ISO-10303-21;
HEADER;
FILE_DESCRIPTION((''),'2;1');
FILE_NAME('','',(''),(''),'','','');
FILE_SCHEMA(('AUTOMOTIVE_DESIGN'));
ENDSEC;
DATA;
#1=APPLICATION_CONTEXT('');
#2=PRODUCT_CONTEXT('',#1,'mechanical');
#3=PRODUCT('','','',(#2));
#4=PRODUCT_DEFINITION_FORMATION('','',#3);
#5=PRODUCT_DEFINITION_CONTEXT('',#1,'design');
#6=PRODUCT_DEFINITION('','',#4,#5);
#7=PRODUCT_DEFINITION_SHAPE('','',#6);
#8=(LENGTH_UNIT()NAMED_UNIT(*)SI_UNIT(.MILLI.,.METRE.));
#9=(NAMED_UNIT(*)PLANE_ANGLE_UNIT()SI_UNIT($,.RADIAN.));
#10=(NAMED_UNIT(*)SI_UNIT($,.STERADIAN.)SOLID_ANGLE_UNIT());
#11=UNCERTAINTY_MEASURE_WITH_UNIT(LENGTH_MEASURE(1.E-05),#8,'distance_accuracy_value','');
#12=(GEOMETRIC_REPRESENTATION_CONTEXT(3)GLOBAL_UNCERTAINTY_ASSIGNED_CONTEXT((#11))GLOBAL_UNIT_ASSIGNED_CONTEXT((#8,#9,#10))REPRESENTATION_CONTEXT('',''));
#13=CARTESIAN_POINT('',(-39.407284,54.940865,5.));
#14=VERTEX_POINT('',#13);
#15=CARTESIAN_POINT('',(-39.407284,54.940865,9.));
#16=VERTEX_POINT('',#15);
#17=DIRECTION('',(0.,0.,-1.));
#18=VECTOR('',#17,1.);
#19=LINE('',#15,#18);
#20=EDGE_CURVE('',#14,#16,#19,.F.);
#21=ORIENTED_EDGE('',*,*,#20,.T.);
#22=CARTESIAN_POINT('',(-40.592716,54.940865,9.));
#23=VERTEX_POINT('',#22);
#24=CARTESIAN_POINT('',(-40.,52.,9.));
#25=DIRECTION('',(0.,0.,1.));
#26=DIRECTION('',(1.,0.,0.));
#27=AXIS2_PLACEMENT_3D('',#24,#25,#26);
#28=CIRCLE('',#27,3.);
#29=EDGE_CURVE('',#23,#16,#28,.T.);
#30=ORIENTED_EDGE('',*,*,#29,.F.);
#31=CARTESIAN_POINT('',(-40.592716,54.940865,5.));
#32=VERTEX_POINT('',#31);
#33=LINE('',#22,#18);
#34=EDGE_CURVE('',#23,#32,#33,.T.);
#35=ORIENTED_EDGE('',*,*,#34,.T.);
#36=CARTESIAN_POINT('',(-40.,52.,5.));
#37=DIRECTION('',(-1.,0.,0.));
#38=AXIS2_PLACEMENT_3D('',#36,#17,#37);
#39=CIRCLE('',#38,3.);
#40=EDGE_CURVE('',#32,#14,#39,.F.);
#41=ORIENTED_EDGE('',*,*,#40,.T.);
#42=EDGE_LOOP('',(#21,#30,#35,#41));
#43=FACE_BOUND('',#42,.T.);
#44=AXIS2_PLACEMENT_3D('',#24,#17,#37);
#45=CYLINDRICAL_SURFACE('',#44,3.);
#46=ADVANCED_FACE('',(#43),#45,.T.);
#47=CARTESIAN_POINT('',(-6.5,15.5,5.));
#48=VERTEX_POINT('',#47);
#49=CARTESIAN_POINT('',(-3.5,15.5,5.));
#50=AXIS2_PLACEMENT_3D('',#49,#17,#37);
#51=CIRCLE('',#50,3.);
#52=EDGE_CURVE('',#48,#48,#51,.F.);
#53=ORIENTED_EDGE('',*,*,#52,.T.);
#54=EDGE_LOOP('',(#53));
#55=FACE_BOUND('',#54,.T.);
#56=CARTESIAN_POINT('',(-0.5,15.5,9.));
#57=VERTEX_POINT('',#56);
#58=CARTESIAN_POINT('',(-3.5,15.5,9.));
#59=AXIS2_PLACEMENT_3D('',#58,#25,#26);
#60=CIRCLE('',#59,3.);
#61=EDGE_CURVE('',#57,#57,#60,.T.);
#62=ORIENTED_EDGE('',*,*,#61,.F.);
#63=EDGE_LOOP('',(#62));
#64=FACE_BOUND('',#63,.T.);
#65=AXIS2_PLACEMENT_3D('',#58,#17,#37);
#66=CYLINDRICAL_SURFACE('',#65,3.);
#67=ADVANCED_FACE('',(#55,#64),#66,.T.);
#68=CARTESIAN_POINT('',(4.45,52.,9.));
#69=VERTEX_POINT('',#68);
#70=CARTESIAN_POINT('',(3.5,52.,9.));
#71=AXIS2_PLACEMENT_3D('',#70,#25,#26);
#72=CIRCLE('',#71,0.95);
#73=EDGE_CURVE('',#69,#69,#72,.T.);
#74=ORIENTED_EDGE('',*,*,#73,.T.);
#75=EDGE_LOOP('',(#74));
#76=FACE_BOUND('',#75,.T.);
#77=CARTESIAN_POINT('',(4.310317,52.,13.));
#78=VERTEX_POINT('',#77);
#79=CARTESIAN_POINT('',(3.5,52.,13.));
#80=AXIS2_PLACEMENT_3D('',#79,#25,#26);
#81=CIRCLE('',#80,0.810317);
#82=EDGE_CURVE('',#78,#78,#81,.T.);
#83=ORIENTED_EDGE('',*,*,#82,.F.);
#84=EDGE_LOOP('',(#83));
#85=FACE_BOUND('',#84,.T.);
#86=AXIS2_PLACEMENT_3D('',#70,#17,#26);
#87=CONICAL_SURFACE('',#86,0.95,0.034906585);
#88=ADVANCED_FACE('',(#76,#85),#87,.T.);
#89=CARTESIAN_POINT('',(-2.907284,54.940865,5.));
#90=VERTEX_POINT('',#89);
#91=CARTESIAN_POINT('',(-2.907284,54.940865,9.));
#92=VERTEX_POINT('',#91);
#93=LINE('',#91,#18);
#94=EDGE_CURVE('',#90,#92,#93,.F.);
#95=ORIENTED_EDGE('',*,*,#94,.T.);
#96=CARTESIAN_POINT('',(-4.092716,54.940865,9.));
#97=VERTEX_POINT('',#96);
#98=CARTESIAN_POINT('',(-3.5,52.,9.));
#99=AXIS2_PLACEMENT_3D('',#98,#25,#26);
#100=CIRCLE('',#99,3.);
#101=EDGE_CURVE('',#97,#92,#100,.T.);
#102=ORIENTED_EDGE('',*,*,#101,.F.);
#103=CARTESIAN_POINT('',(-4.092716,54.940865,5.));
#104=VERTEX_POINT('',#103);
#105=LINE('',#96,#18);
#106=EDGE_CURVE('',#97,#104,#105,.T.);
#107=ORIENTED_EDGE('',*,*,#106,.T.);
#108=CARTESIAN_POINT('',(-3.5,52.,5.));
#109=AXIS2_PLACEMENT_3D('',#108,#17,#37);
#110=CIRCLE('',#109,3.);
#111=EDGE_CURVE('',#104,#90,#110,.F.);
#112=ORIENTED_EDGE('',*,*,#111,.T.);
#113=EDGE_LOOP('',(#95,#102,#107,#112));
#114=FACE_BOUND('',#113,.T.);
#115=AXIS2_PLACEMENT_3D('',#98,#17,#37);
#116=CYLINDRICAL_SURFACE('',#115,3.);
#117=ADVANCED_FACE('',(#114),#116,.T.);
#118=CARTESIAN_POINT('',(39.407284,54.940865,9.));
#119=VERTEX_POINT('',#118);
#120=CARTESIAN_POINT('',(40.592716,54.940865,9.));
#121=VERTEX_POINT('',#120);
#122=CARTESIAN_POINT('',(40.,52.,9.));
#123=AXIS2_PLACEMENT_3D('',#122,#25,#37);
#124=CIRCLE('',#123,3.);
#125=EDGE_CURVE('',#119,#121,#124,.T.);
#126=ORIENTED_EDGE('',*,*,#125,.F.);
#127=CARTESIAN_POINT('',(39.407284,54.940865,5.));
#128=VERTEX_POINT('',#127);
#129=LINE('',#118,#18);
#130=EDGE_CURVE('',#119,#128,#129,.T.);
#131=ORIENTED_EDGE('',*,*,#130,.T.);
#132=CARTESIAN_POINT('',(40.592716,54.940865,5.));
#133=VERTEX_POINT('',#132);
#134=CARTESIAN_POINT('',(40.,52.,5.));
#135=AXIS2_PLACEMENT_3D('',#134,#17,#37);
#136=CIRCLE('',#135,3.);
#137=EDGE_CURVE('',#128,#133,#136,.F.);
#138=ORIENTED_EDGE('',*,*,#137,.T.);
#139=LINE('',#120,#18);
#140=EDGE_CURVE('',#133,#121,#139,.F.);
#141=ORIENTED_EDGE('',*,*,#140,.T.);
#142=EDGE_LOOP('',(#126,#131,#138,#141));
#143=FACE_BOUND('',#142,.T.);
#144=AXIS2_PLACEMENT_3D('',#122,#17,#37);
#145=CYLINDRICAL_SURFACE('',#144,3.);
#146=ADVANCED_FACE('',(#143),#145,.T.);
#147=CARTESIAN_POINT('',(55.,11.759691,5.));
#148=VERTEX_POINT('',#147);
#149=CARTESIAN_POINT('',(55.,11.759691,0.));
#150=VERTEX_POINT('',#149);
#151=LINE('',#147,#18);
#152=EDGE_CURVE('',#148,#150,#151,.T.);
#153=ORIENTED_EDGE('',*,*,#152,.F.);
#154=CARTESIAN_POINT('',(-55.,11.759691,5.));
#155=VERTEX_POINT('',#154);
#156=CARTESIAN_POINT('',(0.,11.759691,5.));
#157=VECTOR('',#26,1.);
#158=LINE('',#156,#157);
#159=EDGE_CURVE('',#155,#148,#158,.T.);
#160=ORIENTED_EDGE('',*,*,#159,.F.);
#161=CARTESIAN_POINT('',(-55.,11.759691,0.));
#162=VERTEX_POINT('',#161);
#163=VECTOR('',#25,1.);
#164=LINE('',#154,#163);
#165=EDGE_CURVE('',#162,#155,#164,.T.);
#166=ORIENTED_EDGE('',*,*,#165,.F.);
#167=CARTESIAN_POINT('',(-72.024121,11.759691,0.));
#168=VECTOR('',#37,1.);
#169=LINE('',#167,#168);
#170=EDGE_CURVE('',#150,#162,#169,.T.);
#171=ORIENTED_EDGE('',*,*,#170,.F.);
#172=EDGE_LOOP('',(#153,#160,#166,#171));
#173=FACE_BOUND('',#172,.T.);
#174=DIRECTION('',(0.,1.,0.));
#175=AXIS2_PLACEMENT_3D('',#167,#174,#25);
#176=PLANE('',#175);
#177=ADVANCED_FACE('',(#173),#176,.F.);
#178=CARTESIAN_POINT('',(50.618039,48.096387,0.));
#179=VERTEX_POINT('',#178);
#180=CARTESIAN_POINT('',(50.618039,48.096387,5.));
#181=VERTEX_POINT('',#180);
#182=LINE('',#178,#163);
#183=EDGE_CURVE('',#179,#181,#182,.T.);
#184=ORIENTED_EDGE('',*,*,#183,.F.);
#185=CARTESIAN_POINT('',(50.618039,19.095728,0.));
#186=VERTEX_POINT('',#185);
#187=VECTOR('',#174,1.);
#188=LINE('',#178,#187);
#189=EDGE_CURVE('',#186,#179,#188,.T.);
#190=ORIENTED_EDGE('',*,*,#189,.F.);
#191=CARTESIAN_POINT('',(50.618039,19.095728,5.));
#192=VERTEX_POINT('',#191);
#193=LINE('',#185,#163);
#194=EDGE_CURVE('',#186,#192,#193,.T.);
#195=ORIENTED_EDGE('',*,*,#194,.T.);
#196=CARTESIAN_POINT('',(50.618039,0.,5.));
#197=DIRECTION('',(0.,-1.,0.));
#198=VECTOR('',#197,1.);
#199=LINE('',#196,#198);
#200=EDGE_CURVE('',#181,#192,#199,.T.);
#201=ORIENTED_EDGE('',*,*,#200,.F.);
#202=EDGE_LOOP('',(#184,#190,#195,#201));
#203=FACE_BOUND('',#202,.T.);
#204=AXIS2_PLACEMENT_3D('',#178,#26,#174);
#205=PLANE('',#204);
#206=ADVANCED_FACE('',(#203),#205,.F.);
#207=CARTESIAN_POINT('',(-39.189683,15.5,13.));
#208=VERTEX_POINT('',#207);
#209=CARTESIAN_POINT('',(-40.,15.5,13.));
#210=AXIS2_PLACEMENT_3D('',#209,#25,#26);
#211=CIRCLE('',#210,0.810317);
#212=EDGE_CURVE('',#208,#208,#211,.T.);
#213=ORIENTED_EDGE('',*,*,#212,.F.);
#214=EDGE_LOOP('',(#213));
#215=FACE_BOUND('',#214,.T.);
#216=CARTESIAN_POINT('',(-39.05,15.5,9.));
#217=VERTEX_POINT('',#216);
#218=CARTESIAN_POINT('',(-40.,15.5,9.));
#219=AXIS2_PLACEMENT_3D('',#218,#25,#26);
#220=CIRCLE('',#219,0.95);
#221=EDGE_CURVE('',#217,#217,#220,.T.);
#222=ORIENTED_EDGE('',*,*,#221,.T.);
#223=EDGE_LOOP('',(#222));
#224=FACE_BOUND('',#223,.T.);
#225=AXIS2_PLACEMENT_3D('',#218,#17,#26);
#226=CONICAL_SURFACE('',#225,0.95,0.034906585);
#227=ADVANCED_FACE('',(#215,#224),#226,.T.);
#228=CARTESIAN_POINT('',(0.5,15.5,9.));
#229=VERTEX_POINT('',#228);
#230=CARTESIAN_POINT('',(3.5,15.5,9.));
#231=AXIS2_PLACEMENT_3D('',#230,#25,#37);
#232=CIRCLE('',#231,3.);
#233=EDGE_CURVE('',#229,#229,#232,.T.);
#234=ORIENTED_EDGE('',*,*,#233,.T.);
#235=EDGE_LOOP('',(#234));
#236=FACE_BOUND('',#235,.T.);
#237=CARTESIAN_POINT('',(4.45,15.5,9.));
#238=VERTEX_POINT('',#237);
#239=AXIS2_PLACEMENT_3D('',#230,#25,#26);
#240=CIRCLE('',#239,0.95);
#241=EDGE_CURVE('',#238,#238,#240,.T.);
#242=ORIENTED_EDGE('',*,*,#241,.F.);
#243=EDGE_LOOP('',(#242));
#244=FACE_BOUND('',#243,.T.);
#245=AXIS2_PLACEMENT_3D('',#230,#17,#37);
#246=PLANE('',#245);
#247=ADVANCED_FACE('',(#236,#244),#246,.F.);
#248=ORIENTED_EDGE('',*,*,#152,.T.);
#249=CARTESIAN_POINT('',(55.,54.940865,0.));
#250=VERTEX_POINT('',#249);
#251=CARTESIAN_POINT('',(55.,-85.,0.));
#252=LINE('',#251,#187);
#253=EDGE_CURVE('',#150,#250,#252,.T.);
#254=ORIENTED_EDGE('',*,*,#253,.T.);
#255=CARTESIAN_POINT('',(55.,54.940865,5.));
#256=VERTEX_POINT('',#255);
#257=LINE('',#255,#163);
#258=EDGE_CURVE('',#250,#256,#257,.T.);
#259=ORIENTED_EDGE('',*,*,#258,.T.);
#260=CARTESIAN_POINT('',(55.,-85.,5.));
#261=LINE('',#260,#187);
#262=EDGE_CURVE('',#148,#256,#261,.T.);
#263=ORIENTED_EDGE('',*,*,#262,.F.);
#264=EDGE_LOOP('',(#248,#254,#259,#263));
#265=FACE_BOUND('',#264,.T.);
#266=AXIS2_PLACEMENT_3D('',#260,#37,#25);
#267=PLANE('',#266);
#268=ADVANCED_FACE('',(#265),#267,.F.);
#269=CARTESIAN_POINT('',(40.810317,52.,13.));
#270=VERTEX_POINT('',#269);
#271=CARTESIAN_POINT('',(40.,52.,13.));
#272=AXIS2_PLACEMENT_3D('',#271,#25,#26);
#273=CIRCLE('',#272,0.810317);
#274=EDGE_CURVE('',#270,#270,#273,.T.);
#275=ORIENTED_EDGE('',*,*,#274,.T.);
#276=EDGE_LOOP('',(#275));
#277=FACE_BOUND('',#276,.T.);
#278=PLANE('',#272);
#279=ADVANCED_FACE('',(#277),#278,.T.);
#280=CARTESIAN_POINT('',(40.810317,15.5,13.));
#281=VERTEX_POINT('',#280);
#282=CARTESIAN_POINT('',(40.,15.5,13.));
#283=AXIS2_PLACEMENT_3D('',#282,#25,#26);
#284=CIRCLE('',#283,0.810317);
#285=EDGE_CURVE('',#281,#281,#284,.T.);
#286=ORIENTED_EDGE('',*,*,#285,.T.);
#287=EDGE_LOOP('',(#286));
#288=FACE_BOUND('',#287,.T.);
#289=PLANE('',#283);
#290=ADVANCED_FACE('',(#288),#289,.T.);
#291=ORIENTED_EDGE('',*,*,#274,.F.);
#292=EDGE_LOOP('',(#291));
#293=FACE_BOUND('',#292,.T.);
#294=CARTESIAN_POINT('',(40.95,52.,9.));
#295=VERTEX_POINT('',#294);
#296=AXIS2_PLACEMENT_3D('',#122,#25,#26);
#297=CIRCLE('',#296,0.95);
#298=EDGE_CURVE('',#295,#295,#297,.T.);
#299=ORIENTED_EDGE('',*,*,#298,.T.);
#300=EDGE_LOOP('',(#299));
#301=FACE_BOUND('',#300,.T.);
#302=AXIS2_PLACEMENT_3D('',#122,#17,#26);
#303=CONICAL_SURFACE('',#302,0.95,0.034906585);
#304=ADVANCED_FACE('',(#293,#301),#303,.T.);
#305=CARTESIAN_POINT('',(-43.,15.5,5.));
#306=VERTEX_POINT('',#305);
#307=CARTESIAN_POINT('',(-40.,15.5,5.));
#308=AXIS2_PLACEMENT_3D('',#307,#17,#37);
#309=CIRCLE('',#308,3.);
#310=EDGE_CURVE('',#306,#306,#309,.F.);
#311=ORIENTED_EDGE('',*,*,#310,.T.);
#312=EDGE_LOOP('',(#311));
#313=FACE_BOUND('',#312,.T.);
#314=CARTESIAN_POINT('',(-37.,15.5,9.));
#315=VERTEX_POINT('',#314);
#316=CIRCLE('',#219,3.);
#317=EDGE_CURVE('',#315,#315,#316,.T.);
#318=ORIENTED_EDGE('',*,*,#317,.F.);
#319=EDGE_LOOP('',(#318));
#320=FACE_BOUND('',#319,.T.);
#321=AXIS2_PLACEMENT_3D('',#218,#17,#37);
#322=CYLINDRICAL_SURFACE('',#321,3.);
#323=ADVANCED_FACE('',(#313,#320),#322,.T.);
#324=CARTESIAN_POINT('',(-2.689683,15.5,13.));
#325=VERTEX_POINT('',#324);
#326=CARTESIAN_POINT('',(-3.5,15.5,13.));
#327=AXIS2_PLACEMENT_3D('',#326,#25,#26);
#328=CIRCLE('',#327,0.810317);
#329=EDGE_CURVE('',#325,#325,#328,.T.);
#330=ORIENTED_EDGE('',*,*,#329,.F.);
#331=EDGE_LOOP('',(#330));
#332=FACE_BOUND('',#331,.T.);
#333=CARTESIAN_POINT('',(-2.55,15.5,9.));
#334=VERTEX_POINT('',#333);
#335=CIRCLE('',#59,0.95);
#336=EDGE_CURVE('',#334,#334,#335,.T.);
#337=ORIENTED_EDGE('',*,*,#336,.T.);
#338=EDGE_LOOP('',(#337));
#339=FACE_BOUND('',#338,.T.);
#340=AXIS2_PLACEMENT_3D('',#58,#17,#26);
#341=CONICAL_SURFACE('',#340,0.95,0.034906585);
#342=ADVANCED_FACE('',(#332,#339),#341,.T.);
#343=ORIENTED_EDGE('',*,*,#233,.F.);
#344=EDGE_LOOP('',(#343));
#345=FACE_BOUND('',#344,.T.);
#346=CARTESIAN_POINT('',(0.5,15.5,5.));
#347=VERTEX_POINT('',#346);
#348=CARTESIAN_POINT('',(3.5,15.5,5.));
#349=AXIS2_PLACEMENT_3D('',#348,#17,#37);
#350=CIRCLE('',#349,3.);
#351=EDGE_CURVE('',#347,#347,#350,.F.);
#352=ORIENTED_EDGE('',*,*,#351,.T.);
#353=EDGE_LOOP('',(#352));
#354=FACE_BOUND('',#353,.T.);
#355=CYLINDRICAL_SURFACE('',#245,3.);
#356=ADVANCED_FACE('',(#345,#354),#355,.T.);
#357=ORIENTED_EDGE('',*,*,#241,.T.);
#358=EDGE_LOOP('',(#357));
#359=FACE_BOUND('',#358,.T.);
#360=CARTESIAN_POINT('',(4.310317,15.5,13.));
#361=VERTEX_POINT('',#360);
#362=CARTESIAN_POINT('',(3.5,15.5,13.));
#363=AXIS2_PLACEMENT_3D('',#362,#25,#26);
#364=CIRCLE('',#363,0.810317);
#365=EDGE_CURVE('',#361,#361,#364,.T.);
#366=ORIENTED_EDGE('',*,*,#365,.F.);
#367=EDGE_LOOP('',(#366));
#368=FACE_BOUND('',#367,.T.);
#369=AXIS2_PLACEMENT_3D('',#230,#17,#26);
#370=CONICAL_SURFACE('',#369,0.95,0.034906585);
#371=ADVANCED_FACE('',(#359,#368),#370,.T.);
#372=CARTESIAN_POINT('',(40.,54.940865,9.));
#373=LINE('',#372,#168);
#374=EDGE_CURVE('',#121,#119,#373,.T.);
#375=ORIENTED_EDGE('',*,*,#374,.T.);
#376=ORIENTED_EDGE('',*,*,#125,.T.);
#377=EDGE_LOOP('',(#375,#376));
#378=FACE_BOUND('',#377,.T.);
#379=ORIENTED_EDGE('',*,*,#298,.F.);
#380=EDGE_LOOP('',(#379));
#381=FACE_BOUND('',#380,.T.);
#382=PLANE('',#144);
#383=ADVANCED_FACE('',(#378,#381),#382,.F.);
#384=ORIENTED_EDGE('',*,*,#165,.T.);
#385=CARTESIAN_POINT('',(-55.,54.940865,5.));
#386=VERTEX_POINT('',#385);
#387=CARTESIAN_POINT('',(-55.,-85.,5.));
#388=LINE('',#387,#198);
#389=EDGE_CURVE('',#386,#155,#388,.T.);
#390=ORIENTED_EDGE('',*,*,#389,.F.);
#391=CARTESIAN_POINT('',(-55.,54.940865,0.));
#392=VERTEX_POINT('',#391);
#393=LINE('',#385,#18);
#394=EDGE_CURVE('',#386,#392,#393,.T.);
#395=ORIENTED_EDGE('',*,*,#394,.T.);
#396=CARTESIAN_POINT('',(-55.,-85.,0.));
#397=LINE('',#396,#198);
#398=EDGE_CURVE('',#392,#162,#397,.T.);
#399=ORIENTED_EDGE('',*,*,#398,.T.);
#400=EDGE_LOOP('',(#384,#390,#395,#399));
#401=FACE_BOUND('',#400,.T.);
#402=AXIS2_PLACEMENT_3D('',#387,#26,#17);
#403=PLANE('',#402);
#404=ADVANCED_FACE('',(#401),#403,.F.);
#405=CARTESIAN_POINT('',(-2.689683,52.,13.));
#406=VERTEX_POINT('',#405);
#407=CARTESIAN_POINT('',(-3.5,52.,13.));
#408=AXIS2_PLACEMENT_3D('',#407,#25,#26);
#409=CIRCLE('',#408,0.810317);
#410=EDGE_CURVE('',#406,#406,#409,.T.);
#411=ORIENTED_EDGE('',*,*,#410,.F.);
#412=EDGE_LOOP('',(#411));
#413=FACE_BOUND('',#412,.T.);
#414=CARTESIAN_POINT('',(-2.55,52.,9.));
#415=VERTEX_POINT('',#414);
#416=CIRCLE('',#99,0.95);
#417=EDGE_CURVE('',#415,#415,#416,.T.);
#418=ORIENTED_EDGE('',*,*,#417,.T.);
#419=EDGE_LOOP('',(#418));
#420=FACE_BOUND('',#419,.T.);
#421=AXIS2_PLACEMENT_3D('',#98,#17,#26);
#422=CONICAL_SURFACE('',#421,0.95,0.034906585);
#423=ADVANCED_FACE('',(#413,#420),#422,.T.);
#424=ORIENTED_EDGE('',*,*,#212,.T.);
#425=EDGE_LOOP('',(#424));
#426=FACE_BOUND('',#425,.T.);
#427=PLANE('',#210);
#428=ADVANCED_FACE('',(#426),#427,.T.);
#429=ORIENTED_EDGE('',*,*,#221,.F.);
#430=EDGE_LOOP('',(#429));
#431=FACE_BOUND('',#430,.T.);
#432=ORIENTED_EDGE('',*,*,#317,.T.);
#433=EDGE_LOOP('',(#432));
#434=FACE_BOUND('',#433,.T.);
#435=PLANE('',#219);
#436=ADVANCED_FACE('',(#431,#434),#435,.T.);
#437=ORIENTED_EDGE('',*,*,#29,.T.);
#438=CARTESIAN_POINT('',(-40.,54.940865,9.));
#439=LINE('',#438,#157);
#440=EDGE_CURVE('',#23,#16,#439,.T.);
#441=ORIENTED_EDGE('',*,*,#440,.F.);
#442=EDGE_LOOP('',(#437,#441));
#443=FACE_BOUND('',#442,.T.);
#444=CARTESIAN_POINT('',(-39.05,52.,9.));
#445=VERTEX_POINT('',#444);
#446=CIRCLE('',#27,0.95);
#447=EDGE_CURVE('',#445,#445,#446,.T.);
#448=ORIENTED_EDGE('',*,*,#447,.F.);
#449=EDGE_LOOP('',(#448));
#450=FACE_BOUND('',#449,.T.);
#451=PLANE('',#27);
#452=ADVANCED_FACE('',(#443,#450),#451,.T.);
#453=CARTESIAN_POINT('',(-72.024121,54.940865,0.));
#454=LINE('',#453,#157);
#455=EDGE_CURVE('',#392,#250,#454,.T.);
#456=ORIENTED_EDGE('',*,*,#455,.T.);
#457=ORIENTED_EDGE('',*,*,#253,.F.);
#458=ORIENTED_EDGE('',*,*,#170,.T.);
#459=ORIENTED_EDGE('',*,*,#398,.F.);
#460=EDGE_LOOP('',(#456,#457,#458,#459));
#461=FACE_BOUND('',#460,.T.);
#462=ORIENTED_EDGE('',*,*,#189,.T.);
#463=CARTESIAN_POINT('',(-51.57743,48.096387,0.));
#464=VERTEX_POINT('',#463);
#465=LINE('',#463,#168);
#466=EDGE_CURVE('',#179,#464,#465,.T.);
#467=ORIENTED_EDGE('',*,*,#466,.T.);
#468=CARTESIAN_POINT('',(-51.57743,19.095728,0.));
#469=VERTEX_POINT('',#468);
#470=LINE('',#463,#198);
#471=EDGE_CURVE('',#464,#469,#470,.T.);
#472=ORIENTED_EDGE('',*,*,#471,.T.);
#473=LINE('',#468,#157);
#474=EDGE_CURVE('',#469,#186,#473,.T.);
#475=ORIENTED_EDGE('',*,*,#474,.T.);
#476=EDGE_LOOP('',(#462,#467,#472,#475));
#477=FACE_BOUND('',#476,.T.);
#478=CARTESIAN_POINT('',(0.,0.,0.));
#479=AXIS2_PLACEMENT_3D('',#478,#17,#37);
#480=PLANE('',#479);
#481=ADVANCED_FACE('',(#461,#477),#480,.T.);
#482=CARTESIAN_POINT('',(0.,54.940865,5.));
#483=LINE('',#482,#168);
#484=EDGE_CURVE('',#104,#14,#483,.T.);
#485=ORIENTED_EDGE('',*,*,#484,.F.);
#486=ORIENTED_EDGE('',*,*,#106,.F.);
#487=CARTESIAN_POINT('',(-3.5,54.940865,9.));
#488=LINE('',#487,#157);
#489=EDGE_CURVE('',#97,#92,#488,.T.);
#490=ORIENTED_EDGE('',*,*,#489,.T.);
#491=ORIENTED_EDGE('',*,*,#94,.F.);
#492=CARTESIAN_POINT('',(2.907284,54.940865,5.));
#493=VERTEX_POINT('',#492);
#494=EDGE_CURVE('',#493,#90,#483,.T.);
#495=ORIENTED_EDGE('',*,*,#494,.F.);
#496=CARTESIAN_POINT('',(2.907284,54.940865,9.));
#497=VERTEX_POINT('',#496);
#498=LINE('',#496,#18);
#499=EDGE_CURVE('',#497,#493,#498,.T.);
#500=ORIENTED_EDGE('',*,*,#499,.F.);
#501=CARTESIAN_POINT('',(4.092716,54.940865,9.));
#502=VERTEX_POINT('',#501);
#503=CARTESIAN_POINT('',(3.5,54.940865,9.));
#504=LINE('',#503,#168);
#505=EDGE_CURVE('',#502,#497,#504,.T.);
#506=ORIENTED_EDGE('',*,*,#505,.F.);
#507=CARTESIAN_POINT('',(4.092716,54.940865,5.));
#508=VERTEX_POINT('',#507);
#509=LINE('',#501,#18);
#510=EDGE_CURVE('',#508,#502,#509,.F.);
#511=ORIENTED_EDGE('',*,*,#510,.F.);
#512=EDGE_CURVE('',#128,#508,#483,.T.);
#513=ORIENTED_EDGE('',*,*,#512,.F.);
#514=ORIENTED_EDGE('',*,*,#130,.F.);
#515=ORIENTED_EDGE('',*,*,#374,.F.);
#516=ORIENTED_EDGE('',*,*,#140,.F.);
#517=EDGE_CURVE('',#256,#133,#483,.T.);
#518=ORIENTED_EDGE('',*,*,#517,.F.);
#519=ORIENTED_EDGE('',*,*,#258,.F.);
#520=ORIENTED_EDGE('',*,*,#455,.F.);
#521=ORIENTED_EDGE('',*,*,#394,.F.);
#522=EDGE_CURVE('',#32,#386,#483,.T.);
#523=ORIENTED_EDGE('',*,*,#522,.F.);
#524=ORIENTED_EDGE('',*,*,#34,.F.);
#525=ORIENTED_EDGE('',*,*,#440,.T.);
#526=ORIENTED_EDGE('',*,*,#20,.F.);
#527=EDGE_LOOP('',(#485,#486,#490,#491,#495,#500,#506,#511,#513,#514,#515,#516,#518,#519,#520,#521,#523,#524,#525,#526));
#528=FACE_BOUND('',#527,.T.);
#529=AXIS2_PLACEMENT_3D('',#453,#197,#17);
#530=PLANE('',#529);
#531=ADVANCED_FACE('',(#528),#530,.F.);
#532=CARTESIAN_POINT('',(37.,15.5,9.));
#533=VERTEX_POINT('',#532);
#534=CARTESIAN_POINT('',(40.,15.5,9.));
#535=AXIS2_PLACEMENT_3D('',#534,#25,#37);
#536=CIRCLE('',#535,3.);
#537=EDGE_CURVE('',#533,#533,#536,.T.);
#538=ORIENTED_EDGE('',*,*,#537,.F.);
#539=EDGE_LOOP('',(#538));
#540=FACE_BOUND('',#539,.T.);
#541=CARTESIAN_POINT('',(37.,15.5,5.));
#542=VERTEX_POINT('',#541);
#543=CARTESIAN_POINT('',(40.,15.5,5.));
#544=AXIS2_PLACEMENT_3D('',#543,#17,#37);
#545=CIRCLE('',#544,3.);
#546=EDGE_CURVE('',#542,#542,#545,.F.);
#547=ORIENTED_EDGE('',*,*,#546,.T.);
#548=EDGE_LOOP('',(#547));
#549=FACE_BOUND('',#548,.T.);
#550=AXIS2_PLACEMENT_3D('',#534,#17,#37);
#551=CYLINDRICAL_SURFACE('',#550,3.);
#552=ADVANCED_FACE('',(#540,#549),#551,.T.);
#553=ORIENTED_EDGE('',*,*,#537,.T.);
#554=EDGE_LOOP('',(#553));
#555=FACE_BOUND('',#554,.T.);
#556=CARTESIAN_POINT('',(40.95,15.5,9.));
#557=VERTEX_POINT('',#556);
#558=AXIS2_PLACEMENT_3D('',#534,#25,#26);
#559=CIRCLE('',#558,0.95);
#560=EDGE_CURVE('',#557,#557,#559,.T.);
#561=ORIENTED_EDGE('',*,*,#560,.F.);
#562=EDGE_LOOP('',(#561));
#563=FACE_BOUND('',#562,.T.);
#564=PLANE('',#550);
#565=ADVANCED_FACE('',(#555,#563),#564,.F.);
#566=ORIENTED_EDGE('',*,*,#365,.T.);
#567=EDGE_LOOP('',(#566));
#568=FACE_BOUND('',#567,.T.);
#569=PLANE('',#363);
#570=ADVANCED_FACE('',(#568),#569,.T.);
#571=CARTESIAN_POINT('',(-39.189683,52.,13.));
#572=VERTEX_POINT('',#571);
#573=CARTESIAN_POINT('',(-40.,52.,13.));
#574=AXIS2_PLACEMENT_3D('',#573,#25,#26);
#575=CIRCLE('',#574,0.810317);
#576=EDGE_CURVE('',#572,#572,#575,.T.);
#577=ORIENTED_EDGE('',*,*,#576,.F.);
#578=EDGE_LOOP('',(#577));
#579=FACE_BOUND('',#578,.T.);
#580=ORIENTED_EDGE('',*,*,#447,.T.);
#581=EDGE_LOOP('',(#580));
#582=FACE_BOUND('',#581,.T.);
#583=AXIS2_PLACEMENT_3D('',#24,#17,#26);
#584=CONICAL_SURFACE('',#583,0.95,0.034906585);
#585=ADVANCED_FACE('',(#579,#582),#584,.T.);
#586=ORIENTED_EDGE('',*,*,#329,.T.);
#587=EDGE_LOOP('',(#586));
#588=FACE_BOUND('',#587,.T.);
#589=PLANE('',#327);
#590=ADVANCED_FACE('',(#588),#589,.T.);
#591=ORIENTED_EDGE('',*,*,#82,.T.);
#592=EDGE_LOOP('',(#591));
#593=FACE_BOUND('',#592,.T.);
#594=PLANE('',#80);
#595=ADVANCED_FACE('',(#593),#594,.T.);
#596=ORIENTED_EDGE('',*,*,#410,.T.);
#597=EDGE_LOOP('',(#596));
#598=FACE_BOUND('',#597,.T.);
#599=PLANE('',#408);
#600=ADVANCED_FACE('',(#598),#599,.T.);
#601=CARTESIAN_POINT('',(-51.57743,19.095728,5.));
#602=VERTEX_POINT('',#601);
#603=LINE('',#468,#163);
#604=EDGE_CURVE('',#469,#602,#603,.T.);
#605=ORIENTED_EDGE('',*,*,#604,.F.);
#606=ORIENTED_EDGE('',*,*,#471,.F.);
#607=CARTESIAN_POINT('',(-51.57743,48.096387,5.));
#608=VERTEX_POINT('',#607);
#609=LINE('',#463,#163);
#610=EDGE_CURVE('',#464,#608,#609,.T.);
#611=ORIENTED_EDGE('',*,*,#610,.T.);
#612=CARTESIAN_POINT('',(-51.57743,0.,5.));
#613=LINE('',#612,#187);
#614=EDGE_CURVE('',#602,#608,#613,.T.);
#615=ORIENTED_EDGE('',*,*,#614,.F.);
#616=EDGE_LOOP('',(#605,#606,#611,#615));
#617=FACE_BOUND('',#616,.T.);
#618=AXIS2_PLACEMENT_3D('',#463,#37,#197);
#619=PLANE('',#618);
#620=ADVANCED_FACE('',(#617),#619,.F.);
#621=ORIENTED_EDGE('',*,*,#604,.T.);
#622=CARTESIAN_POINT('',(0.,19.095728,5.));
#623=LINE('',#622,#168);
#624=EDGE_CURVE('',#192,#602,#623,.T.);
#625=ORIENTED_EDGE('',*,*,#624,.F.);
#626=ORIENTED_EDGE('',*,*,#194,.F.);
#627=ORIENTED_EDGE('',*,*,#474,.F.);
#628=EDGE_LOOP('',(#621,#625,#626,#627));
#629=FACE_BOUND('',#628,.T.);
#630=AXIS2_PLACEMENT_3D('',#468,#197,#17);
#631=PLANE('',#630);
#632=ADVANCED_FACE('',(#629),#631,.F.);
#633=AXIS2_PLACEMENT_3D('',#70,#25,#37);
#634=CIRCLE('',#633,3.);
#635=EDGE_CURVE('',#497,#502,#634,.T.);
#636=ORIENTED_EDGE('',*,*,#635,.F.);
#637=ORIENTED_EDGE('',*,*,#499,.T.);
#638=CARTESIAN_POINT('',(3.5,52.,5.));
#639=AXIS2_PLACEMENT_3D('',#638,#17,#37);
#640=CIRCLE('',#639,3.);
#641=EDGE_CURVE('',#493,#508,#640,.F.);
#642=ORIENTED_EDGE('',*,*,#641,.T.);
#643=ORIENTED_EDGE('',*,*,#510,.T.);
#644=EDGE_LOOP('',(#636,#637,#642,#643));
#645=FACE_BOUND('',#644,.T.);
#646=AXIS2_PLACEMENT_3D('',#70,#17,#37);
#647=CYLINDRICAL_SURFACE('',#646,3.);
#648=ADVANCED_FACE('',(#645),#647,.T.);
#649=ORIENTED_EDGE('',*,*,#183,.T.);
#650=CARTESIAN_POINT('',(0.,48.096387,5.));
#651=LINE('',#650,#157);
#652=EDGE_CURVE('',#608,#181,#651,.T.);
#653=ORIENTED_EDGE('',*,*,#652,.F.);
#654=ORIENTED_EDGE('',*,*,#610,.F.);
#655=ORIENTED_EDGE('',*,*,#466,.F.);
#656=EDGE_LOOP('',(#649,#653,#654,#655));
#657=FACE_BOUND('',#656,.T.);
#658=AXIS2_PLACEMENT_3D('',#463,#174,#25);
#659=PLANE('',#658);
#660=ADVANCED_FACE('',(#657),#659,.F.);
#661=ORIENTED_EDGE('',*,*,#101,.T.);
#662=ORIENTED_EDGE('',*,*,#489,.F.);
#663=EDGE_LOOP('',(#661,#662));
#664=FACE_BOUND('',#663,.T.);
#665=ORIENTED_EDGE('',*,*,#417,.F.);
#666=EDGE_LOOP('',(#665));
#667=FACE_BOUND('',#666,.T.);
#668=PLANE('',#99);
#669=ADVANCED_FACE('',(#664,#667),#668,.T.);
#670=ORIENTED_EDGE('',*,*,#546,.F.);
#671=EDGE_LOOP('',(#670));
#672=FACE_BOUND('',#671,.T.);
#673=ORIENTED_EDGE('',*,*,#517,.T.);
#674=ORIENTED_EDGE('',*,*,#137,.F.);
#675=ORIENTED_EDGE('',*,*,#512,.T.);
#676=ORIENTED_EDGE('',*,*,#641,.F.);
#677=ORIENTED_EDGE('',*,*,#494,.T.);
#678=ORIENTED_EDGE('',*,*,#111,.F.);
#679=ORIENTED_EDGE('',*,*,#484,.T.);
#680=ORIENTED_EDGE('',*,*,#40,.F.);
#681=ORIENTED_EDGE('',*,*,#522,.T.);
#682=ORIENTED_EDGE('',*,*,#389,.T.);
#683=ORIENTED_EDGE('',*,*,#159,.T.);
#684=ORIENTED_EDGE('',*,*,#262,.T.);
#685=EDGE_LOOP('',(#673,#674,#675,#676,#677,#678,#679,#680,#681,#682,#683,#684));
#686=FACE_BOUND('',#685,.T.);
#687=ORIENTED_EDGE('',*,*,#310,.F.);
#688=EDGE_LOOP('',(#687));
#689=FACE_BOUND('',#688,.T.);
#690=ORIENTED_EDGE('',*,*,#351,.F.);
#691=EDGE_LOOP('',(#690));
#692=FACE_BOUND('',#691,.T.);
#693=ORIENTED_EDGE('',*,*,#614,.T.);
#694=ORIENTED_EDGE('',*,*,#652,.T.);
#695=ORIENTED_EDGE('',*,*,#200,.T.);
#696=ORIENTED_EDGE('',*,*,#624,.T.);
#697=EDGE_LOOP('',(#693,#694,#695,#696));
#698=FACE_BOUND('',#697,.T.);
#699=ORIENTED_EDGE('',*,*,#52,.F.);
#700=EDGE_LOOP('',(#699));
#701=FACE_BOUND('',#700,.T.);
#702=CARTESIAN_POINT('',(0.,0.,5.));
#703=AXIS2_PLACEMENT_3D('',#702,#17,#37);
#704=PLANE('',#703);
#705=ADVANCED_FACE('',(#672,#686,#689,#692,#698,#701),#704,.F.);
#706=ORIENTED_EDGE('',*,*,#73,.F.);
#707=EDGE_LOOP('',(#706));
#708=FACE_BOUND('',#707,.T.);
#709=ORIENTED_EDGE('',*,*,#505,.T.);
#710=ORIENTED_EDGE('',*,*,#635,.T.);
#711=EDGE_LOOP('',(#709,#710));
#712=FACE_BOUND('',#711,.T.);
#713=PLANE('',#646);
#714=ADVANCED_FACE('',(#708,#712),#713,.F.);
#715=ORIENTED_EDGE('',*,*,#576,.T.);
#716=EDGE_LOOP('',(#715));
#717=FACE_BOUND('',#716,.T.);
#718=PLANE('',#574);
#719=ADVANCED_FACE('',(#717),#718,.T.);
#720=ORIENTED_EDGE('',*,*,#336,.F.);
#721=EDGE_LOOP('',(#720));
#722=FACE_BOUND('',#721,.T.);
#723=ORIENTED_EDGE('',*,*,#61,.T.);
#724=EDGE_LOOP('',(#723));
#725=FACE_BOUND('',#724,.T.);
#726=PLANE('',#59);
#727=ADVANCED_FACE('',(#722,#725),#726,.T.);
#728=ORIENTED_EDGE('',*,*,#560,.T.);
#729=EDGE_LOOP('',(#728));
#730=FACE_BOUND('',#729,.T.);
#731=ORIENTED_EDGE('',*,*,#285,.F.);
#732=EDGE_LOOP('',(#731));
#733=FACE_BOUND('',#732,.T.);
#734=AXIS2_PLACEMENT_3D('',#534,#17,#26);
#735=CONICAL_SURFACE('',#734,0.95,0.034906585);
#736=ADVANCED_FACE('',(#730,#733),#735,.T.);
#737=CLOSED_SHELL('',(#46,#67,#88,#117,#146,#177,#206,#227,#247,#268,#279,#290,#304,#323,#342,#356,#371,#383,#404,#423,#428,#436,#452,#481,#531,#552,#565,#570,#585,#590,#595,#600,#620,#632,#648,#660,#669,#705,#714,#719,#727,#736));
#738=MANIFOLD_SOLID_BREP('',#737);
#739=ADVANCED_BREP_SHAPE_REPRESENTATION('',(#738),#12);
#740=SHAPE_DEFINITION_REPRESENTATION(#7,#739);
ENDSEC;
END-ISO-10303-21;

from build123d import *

# Parameters (mm, degrees)
SKIZZE1_W                                  = 110
SKIZZE1_H                                  = 170
AUFSATZ_LINEAR_AUSTRAGEN1_DEPTH            = 5
VERRUNDUNG1_R                              = 5
SKIZZE7_W                                  = 12
SKIZZE7_H                                  = 16
AUFSATZ_LINEAR_AUSTRAGEN3_DEPTH            = 28
VERRUNDUNG2_R                              = 2
SKIZZE8_R                                  = 4.2
SCHNITT_LINEAR_AUSTRAGEN3_DEPTH            = 107.484740691
LINEARES_MUSTER1_COUNT                     = 2
LINEARES_MUSTER1_PITCH                     = 134
LINEARES_MUSTER1_COUNT_DIR2                = 2
LINEARES_MUSTER1_PITCH_DIR2                = 98
SKIZZE9_R                                  = 3
AUFSATZ_LINEAR_AUSTRAGEN4_DEPTH            = 4
SKIZZE10_R                                 = 0.95
AUFSATZ_LINEAR_AUSTRAGEN5_DEPTH            = 4
AUFSATZ_LINEAR_AUSTRAGEN5_DRAFT            = 2
AUFSATZ_LINEAR_AUSTRAGEN5_PROFILE_2_DEPTH  = 4
AUFSATZ_LINEAR_AUSTRAGEN5_PROFILE_2_DRAFT  = 2
AUFSATZ_LINEAR_AUSTRAGEN5_PROFILE_3_DEPTH  = 4
AUFSATZ_LINEAR_AUSTRAGEN5_PROFILE_3_DRAFT  = 2
AUFSATZ_LINEAR_AUSTRAGEN5_PROFILE_4_DEPTH  = 4
AUFSATZ_LINEAR_AUSTRAGEN5_PROFILE_4_DRAFT  = 2
AUFSATZ_LINEAR_AUSTRAGEN5_PROFILE_5_DEPTH  = 4
AUFSATZ_LINEAR_AUSTRAGEN5_PROFILE_5_DRAFT  = 2
AUFSATZ_LINEAR_AUSTRAGEN5_PROFILE_6_DEPTH  = 4
AUFSATZ_LINEAR_AUSTRAGEN5_PROFILE_6_DRAFT  = 2
AUFSATZ_LINEAR_AUSTRAGEN5_PROFILE_7_DEPTH  = 4
AUFSATZ_LINEAR_AUSTRAGEN5_PROFILE_7_DRAFT  = 2
AUFSATZ_LINEAR_AUSTRAGEN5_PROFILE_8_DEPTH  = 4
AUFSATZ_LINEAR_AUSTRAGEN5_PROFILE_8_DRAFT  = 2
AUFSATZ_LINEAR_AUSTRAGEN5_PROFILE_9_DEPTH  = 4
AUFSATZ_LINEAR_AUSTRAGEN5_PROFILE_9_DRAFT  = 2
AUFSATZ_LINEAR_AUSTRAGEN5_PROFILE_10_DEPTH = 4
AUFSATZ_LINEAR_AUSTRAGEN5_PROFILE_10_DRAFT = 2
AUFSATZ_LINEAR_AUSTRAGEN5_PROFILE_11_DEPTH = 4
AUFSATZ_LINEAR_AUSTRAGEN5_PROFILE_11_DRAFT = 2
AUFSATZ_LINEAR_AUSTRAGEN5_PROFILE_12_DEPTH = 4
AUFSATZ_LINEAR_AUSTRAGEN5_PROFILE_12_DRAFT = 2
FASE1_SIZE                                 = 1.2
SKIZZE11_W                                 = 60
SKIZZE11_H                                 = 20
SCHNITT_LINEAR_AUSTRAGEN4_DEPTH            = 106.0428484
SKIZZE12_R                                 = 1.75
AUFSATZ_LINEAR_AUSTRAGEN6_DEPTH            = 4
AUFSATZ_LINEAR_AUSTRAGEN6_DRAFT            = 2
AUFSATZ_LINEAR_AUSTRAGEN6_PROFILE_2_DEPTH  = 4
AUFSATZ_LINEAR_AUSTRAGEN6_PROFILE_2_DRAFT  = 2
AUFSATZ_LINEAR_AUSTRAGEN6_PROFILE_3_DEPTH  = 4
AUFSATZ_LINEAR_AUSTRAGEN6_PROFILE_3_DRAFT  = 2
AUFSATZ_LINEAR_AUSTRAGEN6_PROFILE_4_DEPTH  = 4
AUFSATZ_LINEAR_AUSTRAGEN6_PROFILE_4_DRAFT  = 2
SKIZZE13_R                                 = 2
SCHNITT_LINEAR_AUSTRAGEN5_DEPTH            = 4.5
SKIZZE15_W                                 = 8
SKIZZE15_H                                 = 50
SCHNITT_LINEAR_AUSTRAGEN6_DEPTH            = 107.179093987
VERRUNDUNG3_R                              = 1
SCHNITT_LINEAR_AUSTRAGEN7_DEPTH            = 107.179093987
SCHNITT_LINEAR_AUSTRAGEN7_DEPTH_BACK       = 107.179093987
SKIZZE16_W                                 = 135.64748715
SKIZZE16_H                                 = 104.662159392
SKIZZE16_H_2                               = 34.255387719
SKIZZE16_W_2                               = 102.195469564
SKIZZE16_H_3                               = 29.000658893


with BuildPart() as part:
    # Skizze1 → Aufsatz-Linear austragen1 (new body)
    with BuildSketch(Plane.XY):
        Rectangle(SKIZZE1_W, SKIZZE1_H)
    extrude(amount=AUFSATZ_LINEAR_AUSTRAGEN1_DEPTH)

    # Verrundung1
    verrundung1_edges = [part.edges().sort_by_distance(p)[0] for p in [
        (55, -85, 2.5),
        (-55, -85, 2.5),
        (-55, 85, 2.5),
        (55, 85, 2.5),
    ]]
    fillet(verrundung1_edges, radius=VERRUNDUNG1_R)

    # Skizze7 → Aufsatz-Linear austragen3 (add)
    with BuildSketch(Plane.XY.offset(5)):
        with Locations((-49, 65)):
            Rectangle(SKIZZE7_W, SKIZZE7_H)
        with Locations((49, 65)):
            Rectangle(SKIZZE7_W, SKIZZE7_H)
        with Locations((49, -65)):
            Rectangle(SKIZZE7_W, SKIZZE7_H)
        with Locations((-49, -65)):
            Rectangle(SKIZZE7_W, SKIZZE7_H)
    extrude(amount=AUFSATZ_LINEAR_AUSTRAGEN3_DEPTH)

    # Verrundung2
    verrundung2_edges = [part.edges().sort_by_distance(p)[0] for p in [
        (-49, 57, 5),
        (-43, 65, 5),
        (-49, 73, 5),
        (49, 73, 5),
        (43, 65, 5),
        (49, 57, 5),
        (49, -57, 5),
        (43, -65, 5),
        (49, -73, 5),
        (-49, -73, 5),
        (-43, -65, 5),
        (-49, -57, 5),
    ]]
    fillet(verrundung2_edges, radius=VERRUNDUNG2_R)

    # Skizze8 → Schnitt-Linear austragen3 (cut, through all)
    with BuildSketch(Plane.XY.offset(33)):
        with Locations((-49, 67)):
            Circle(SKIZZE8_R)
    schnitt_linear_austragen3 = extrude(amount=-SCHNITT_LINEAR_AUSTRAGEN3_DEPTH, mode=Mode.SUBTRACT)

    # Lineares Muster1: Schnitt-Linear austragen3 2 × 2
    with Locations(*[(j * LINEARES_MUSTER1_PITCH_DIR2, -i * LINEARES_MUSTER1_PITCH, 0) for i in range(LINEARES_MUSTER1_COUNT) for j in range(LINEARES_MUSTER1_COUNT_DIR2) if (i, j) != (0, 0)]):
        add(schnitt_linear_austragen3, mode=Mode.SUBTRACT)

    # Skizze9 → Aufsatz-Linear austragen4 (add)
    with BuildSketch(Plane.XY.offset(5)):
        with Locations(Location((24.75, -73.75, 0), (0, 0, 180))):
            Circle(SKIZZE9_R)
        with Locations(Location((24.75, -16.25, 0), (0, 0, 180))):
            Circle(SKIZZE9_R)
        with Locations(Location((-24.75, -16.25, 0), (0, 0, 180))):
            Circle(SKIZZE9_R)
        with Locations(Location((-24.75, -73.75, 0), (0, 0, 180))):
            Circle(SKIZZE9_R)
        with Locations(Location((-3.5, 52, 0), (0, 0, 180))):
            Circle(SKIZZE9_R)
        with Locations(Location((-40, 52, 0), (0, 0, 180))):
            Circle(SKIZZE9_R)
        with Locations(Location((-40, 15.5, 0), (0, 0, 180))):
            Circle(SKIZZE9_R)
        with Locations(Location((-3.5, 15.5, 0), (0, 0, 180))):
            Circle(SKIZZE9_R)
        with Locations(Location((3.5, 15.5, 0), (0, 0, 180))):
            Circle(SKIZZE9_R)
        with Locations(Location((40, 15.5, 0), (0, 0, 180))):
            Circle(SKIZZE9_R)
        with Locations(Location((40, 52, 0), (0, 0, 180))):
            Circle(SKIZZE9_R)
        with Locations(Location((3.5, 52, 0), (0, 0, 180))):
            Circle(SKIZZE9_R)
    extrude(amount=AUFSATZ_LINEAR_AUSTRAGEN4_DEPTH)


with BuildPart() as aufsatz_linear_austragen5_tool:
    # Skizze10 → Aufsatz-Linear austragen5 (with draft: the straight prism first)
    with BuildSketch(Plane.XY.offset(9)):
        with Locations((24.75, -73.75)):
            Circle(SKIZZE10_R)
    extrude(amount=AUFSATZ_LINEAR_AUSTRAGEN5_DEPTH)
    # Aufsatz-Linear austragen5: the draft: its side faces are tilted about the plane it starts from
    aufsatz_linear_austragen5_sides = [aufsatz_linear_austragen5_tool.faces().sort_by_distance(p)[0] for p in [
        (23.8, -73.75, 11),
    ]]
    draft(aufsatz_linear_austragen5_sides, Plane.XY.offset(9), AUFSATZ_LINEAR_AUSTRAGEN5_DRAFT)


with BuildPart() as part_1:
    add(part.part)

    # Aufsatz-Linear austragen5: add aufsatz_linear_austragen5_tool
    add(aufsatz_linear_austragen5_tool.part)


with BuildPart() as aufsatz_linear_austragen5_profile_2_tool:
    # Skizze10 → Aufsatz-Linear austragen5 profile 2 (with draft: the straight prism first)
    with BuildSketch(Plane.XY.offset(9)):
        with Locations((24.75, -16.25)):
            Circle(SKIZZE10_R)
    extrude(amount=AUFSATZ_LINEAR_AUSTRAGEN5_PROFILE_2_DEPTH)
    # Aufsatz-Linear austragen5 profile 2: the draft: its side faces are tilted about the plane it starts from
    aufsatz_linear_austragen5_profile_2_sides = [aufsatz_linear_austragen5_profile_2_tool.faces().sort_by_distance(p)[0] for p in [
        (23.8, -16.25, 11),
    ]]
    draft(aufsatz_linear_austragen5_profile_2_sides, Plane.XY.offset(9), AUFSATZ_LINEAR_AUSTRAGEN5_PROFILE_2_DRAFT)


with BuildPart() as part_2:
    add(part_1.part)

    # Aufsatz-Linear austragen5 profile 2: add aufsatz_linear_austragen5_profile_2_tool
    add(aufsatz_linear_austragen5_profile_2_tool.part)


with BuildPart() as aufsatz_linear_austragen5_profile_3_tool:
    # Skizze10 → Aufsatz-Linear austragen5 profile 3 (with draft: the straight prism first)
    with BuildSketch(Plane.XY.offset(9)):
        with Locations((-24.75, -16.25)):
            Circle(SKIZZE10_R)
    extrude(amount=AUFSATZ_LINEAR_AUSTRAGEN5_PROFILE_3_DEPTH)
    # Aufsatz-Linear austragen5 profile 3: the draft: its side faces are tilted about the plane it starts from
    aufsatz_linear_austragen5_profile_3_sides = [aufsatz_linear_austragen5_profile_3_tool.faces().sort_by_distance(p)[0] for p in [
        (-25.7, -16.25, 11),
    ]]
    draft(aufsatz_linear_austragen5_profile_3_sides, Plane.XY.offset(9), AUFSATZ_LINEAR_AUSTRAGEN5_PROFILE_3_DRAFT)


with BuildPart() as part_3:
    add(part_2.part)

    # Aufsatz-Linear austragen5 profile 3: add aufsatz_linear_austragen5_profile_3_tool
    add(aufsatz_linear_austragen5_profile_3_tool.part)


with BuildPart() as aufsatz_linear_austragen5_profile_4_tool:
    # Skizze10 → Aufsatz-Linear austragen5 profile 4 (with draft: the straight prism first)
    with BuildSketch(Plane.XY.offset(9)):
        with Locations((-24.75, -73.75)):
            Circle(SKIZZE10_R)
    extrude(amount=AUFSATZ_LINEAR_AUSTRAGEN5_PROFILE_4_DEPTH)
    # Aufsatz-Linear austragen5 profile 4: the draft: its side faces are tilted about the plane it starts from
    aufsatz_linear_austragen5_profile_4_sides = [aufsatz_linear_austragen5_profile_4_tool.faces().sort_by_distance(p)[0] for p in [
        (-25.7, -73.75, 11),
    ]]
    draft(aufsatz_linear_austragen5_profile_4_sides, Plane.XY.offset(9), AUFSATZ_LINEAR_AUSTRAGEN5_PROFILE_4_DRAFT)


with BuildPart() as part_4:
    add(part_3.part)

    # Aufsatz-Linear austragen5 profile 4: add aufsatz_linear_austragen5_profile_4_tool
    add(aufsatz_linear_austragen5_profile_4_tool.part)


with BuildPart() as aufsatz_linear_austragen5_profile_5_tool:
    # Skizze10 → Aufsatz-Linear austragen5 profile 5 (with draft: the straight prism first)
    with BuildSketch(Plane.XY.offset(9)):
        with Locations((3.5, 15.5)):
            Circle(SKIZZE10_R)
    extrude(amount=AUFSATZ_LINEAR_AUSTRAGEN5_PROFILE_5_DEPTH)
    # Aufsatz-Linear austragen5 profile 5: the draft: its side faces are tilted about the plane it starts from
    aufsatz_linear_austragen5_profile_5_sides = [aufsatz_linear_austragen5_profile_5_tool.faces().sort_by_distance(p)[0] for p in [
        (2.55, 15.5, 11),
    ]]
    draft(aufsatz_linear_austragen5_profile_5_sides, Plane.XY.offset(9), AUFSATZ_LINEAR_AUSTRAGEN5_PROFILE_5_DRAFT)


with BuildPart() as part_5:
    add(part_4.part)

    # Aufsatz-Linear austragen5 profile 5: add aufsatz_linear_austragen5_profile_5_tool
    add(aufsatz_linear_austragen5_profile_5_tool.part)


with BuildPart() as aufsatz_linear_austragen5_profile_6_tool:
    # Skizze10 → Aufsatz-Linear austragen5 profile 6 (with draft: the straight prism first)
    with BuildSketch(Plane.XY.offset(9)):
        with Locations((40, 15.5)):
            Circle(SKIZZE10_R)
    extrude(amount=AUFSATZ_LINEAR_AUSTRAGEN5_PROFILE_6_DEPTH)
    # Aufsatz-Linear austragen5 profile 6: the draft: its side faces are tilted about the plane it starts from
    aufsatz_linear_austragen5_profile_6_sides = [aufsatz_linear_austragen5_profile_6_tool.faces().sort_by_distance(p)[0] for p in [
        (39.05, 15.5, 11),
    ]]
    draft(aufsatz_linear_austragen5_profile_6_sides, Plane.XY.offset(9), AUFSATZ_LINEAR_AUSTRAGEN5_PROFILE_6_DRAFT)


with BuildPart() as part_6:
    add(part_5.part)

    # Aufsatz-Linear austragen5 profile 6: add aufsatz_linear_austragen5_profile_6_tool
    add(aufsatz_linear_austragen5_profile_6_tool.part)


with BuildPart() as aufsatz_linear_austragen5_profile_7_tool:
    # Skizze10 → Aufsatz-Linear austragen5 profile 7 (with draft: the straight prism first)
    with BuildSketch(Plane.XY.offset(9)):
        with Locations((40, 52)):
            Circle(SKIZZE10_R)
    extrude(amount=AUFSATZ_LINEAR_AUSTRAGEN5_PROFILE_7_DEPTH)
    # Aufsatz-Linear austragen5 profile 7: the draft: its side faces are tilted about the plane it starts from
    aufsatz_linear_austragen5_profile_7_sides = [aufsatz_linear_austragen5_profile_7_tool.faces().sort_by_distance(p)[0] for p in [
        (39.05, 52, 11),
    ]]
    draft(aufsatz_linear_austragen5_profile_7_sides, Plane.XY.offset(9), AUFSATZ_LINEAR_AUSTRAGEN5_PROFILE_7_DRAFT)


with BuildPart() as part_7:
    add(part_6.part)

    # Aufsatz-Linear austragen5 profile 7: add aufsatz_linear_austragen5_profile_7_tool
    add(aufsatz_linear_austragen5_profile_7_tool.part)


with BuildPart() as aufsatz_linear_austragen5_profile_8_tool:
    # Skizze10 → Aufsatz-Linear austragen5 profile 8 (with draft: the straight prism first)
    with BuildSketch(Plane.XY.offset(9)):
        with Locations((3.5, 52)):
            Circle(SKIZZE10_R)
    extrude(amount=AUFSATZ_LINEAR_AUSTRAGEN5_PROFILE_8_DEPTH)
    # Aufsatz-Linear austragen5 profile 8: the draft: its side faces are tilted about the plane it starts from
    aufsatz_linear_austragen5_profile_8_sides = [aufsatz_linear_austragen5_profile_8_tool.faces().sort_by_distance(p)[0] for p in [
        (2.55, 52, 11),
    ]]
    draft(aufsatz_linear_austragen5_profile_8_sides, Plane.XY.offset(9), AUFSATZ_LINEAR_AUSTRAGEN5_PROFILE_8_DRAFT)


with BuildPart() as part_8:
    add(part_7.part)

    # Aufsatz-Linear austragen5 profile 8: add aufsatz_linear_austragen5_profile_8_tool
    add(aufsatz_linear_austragen5_profile_8_tool.part)


with BuildPart() as aufsatz_linear_austragen5_profile_9_tool:
    # Skizze10 → Aufsatz-Linear austragen5 profile 9 (with draft: the straight prism first)
    with BuildSketch(Plane.XY.offset(9)):
        with Locations((-3.5, 52)):
            Circle(SKIZZE10_R)
    extrude(amount=AUFSATZ_LINEAR_AUSTRAGEN5_PROFILE_9_DEPTH)
    # Aufsatz-Linear austragen5 profile 9: the draft: its side faces are tilted about the plane it starts from
    aufsatz_linear_austragen5_profile_9_sides = [aufsatz_linear_austragen5_profile_9_tool.faces().sort_by_distance(p)[0] for p in [
        (-4.45, 52, 11),
    ]]
    draft(aufsatz_linear_austragen5_profile_9_sides, Plane.XY.offset(9), AUFSATZ_LINEAR_AUSTRAGEN5_PROFILE_9_DRAFT)


with BuildPart() as part_9:
    add(part_8.part)

    # Aufsatz-Linear austragen5 profile 9: add aufsatz_linear_austragen5_profile_9_tool
    add(aufsatz_linear_austragen5_profile_9_tool.part)


with BuildPart() as aufsatz_linear_austragen5_profile_10_tool:
    # Skizze10 → Aufsatz-Linear austragen5 profile 10 (with draft: the straight prism first)
    with BuildSketch(Plane.XY.offset(9)):
        with Locations((-40, 52)):
            Circle(SKIZZE10_R)
    extrude(amount=AUFSATZ_LINEAR_AUSTRAGEN5_PROFILE_10_DEPTH)
    # Aufsatz-Linear austragen5 profile 10: the draft: its side faces are tilted about the plane it starts from
    aufsatz_linear_austragen5_profile_10_sides = [aufsatz_linear_austragen5_profile_10_tool.faces().sort_by_distance(p)[0] for p in [
        (-40.95, 52, 11),
    ]]
    draft(aufsatz_linear_austragen5_profile_10_sides, Plane.XY.offset(9), AUFSATZ_LINEAR_AUSTRAGEN5_PROFILE_10_DRAFT)


with BuildPart() as part_10:
    add(part_9.part)

    # Aufsatz-Linear austragen5 profile 10: add aufsatz_linear_austragen5_profile_10_tool
    add(aufsatz_linear_austragen5_profile_10_tool.part)


with BuildPart() as aufsatz_linear_austragen5_profile_11_tool:
    # Skizze10 → Aufsatz-Linear austragen5 profile 11 (with draft: the straight prism first)
    with BuildSketch(Plane.XY.offset(9)):
        with Locations((-40, 15.5)):
            Circle(SKIZZE10_R)
    extrude(amount=AUFSATZ_LINEAR_AUSTRAGEN5_PROFILE_11_DEPTH)
    # Aufsatz-Linear austragen5 profile 11: the draft: its side faces are tilted about the plane it starts from
    aufsatz_linear_austragen5_profile_11_sides = [aufsatz_linear_austragen5_profile_11_tool.faces().sort_by_distance(p)[0] for p in [
        (-40.95, 15.5, 11),
    ]]
    draft(aufsatz_linear_austragen5_profile_11_sides, Plane.XY.offset(9), AUFSATZ_LINEAR_AUSTRAGEN5_PROFILE_11_DRAFT)


with BuildPart() as part_11:
    add(part_10.part)

    # Aufsatz-Linear austragen5 profile 11: add aufsatz_linear_austragen5_profile_11_tool
    add(aufsatz_linear_austragen5_profile_11_tool.part)


with BuildPart() as aufsatz_linear_austragen5_profile_12_tool:
    # Skizze10 → Aufsatz-Linear austragen5 profile 12 (with draft: the straight prism first)
    with BuildSketch(Plane.XY.offset(9)):
        with Locations((-3.5, 15.5)):
            Circle(SKIZZE10_R)
    extrude(amount=AUFSATZ_LINEAR_AUSTRAGEN5_PROFILE_12_DEPTH)
    # Aufsatz-Linear austragen5 profile 12: the draft: its side faces are tilted about the plane it starts from
    aufsatz_linear_austragen5_profile_12_sides = [aufsatz_linear_austragen5_profile_12_tool.faces().sort_by_distance(p)[0] for p in [
        (-4.45, 15.5, 11),
    ]]
    draft(aufsatz_linear_austragen5_profile_12_sides, Plane.XY.offset(9), AUFSATZ_LINEAR_AUSTRAGEN5_PROFILE_12_DRAFT)


with BuildPart() as part_12:
    add(part_11.part)

    # Aufsatz-Linear austragen5 profile 12: add aufsatz_linear_austragen5_profile_12_tool
    add(aufsatz_linear_austragen5_profile_12_tool.part)

    # Fase1
    fase1_edges = [part_12.edges().sort_by_distance(p)[0] for p in [
        (-53.2, 67, 33),
        (44.8, 67, 33),
        (-53.2, -67, 33),
        (44.8, -67, 33),
    ]]
    chamfer(fase1_edges, length=FASE1_SIZE)

    # Skizze11 → Schnitt-Linear austragen4 (cut, through all)
    with BuildSketch(Plane.XY.offset(5)):
        with Locations((0, 69)):
            Rectangle(SKIZZE11_W, SKIZZE11_H)
    extrude(amount=-SCHNITT_LINEAR_AUSTRAGEN4_DEPTH, mode=Mode.SUBTRACT)


with BuildPart() as aufsatz_linear_austragen6_tool:
    # Skizze12 → Aufsatz-Linear austragen6 (with draft: the straight prism first)
    with BuildSketch(Plane.XY.offset(33)):
        with Locations((-49, 59.5)):
            Circle(SKIZZE12_R)
    extrude(amount=AUFSATZ_LINEAR_AUSTRAGEN6_DEPTH)
    # Aufsatz-Linear austragen6: the draft: its side faces are tilted about the plane it starts from
    aufsatz_linear_austragen6_sides = [aufsatz_linear_austragen6_tool.faces().sort_by_distance(p)[0] for p in [
        (-50.75, 59.5, 35),
    ]]
    draft(aufsatz_linear_austragen6_sides, Plane.XY.offset(33), AUFSATZ_LINEAR_AUSTRAGEN6_DRAFT)


with BuildPart() as part_13:
    add(part_12.part)

    # Aufsatz-Linear austragen6: add aufsatz_linear_austragen6_tool
    add(aufsatz_linear_austragen6_tool.part)


with BuildPart() as aufsatz_linear_austragen6_profile_2_tool:
    # Skizze12 → Aufsatz-Linear austragen6 profile 2 (with draft: the straight prism first)
    with BuildSketch(Plane.XY.offset(33)):
        with Locations((49, 59.5)):
            Circle(SKIZZE12_R)
    extrude(amount=AUFSATZ_LINEAR_AUSTRAGEN6_PROFILE_2_DEPTH)
    # Aufsatz-Linear austragen6 profile 2: the draft: its side faces are tilted about the plane it starts from
    aufsatz_linear_austragen6_profile_2_sides = [aufsatz_linear_austragen6_profile_2_tool.faces().sort_by_distance(p)[0] for p in [
        (47.25, 59.5, 35),
    ]]
    draft(aufsatz_linear_austragen6_profile_2_sides, Plane.XY.offset(33), AUFSATZ_LINEAR_AUSTRAGEN6_PROFILE_2_DRAFT)


with BuildPart() as part_14:
    add(part_13.part)

    # Aufsatz-Linear austragen6 profile 2: add aufsatz_linear_austragen6_profile_2_tool
    add(aufsatz_linear_austragen6_profile_2_tool.part)


with BuildPart() as aufsatz_linear_austragen6_profile_3_tool:
    # Skizze12 → Aufsatz-Linear austragen6 profile 3 (with draft: the straight prism first)
    with BuildSketch(Plane.XY.offset(33)):
        with Locations((-49, -59.5)):
            Circle(SKIZZE12_R)
    extrude(amount=AUFSATZ_LINEAR_AUSTRAGEN6_PROFILE_3_DEPTH)
    # Aufsatz-Linear austragen6 profile 3: the draft: its side faces are tilted about the plane it starts from
    aufsatz_linear_austragen6_profile_3_sides = [aufsatz_linear_austragen6_profile_3_tool.faces().sort_by_distance(p)[0] for p in [
        (-50.75, -59.5, 35),
    ]]
    draft(aufsatz_linear_austragen6_profile_3_sides, Plane.XY.offset(33), AUFSATZ_LINEAR_AUSTRAGEN6_PROFILE_3_DRAFT)


with BuildPart() as part_15:
    add(part_14.part)

    # Aufsatz-Linear austragen6 profile 3: add aufsatz_linear_austragen6_profile_3_tool
    add(aufsatz_linear_austragen6_profile_3_tool.part)


with BuildPart() as aufsatz_linear_austragen6_profile_4_tool:
    # Skizze12 → Aufsatz-Linear austragen6 profile 4 (with draft: the straight prism first)
    with BuildSketch(Plane.XY.offset(33)):
        with Locations((49, -59.5)):
            Circle(SKIZZE12_R)
    extrude(amount=AUFSATZ_LINEAR_AUSTRAGEN6_PROFILE_4_DEPTH)
    # Aufsatz-Linear austragen6 profile 4: the draft: its side faces are tilted about the plane it starts from
    aufsatz_linear_austragen6_profile_4_sides = [aufsatz_linear_austragen6_profile_4_tool.faces().sort_by_distance(p)[0] for p in [
        (47.25, -59.5, 35),
    ]]
    draft(aufsatz_linear_austragen6_profile_4_sides, Plane.XY.offset(33), AUFSATZ_LINEAR_AUSTRAGEN6_PROFILE_4_DRAFT)


with BuildPart() as part_16:
    add(part_15.part)

    # Aufsatz-Linear austragen6 profile 4: add aufsatz_linear_austragen6_profile_4_tool
    add(aufsatz_linear_austragen6_profile_4_tool.part)

    # Skizze13 → Schnitt-Linear austragen5 (cut)
    with BuildSketch(Plane(origin=(0, 0, 0), x_dir=(-1, 0, 0), z_dir=(0, 0, -1))):
        with Locations((49, 59.5)):
            Circle(SKIZZE13_R)
        with Locations(Location((-49, 59.5, 0), (0, 0, 180))):
            Circle(SKIZZE13_R)
        with Locations((-49, -59.5)):
            Circle(SKIZZE13_R)
        with Locations(Location((49, -59.5, 0), (0, 0, 180))):
            Circle(SKIZZE13_R)
    extrude(amount=-SCHNITT_LINEAR_AUSTRAGEN5_DEPTH, mode=Mode.SUBTRACT)

    # Skizze15 → Schnitt-Linear austragen6 (cut, through all)
    with BuildSketch(Plane.XY.offset(5)):
        with Locations((44, -25)):
            Rectangle(SKIZZE15_W, SKIZZE15_H)
        with Locations((-44, -25)):
            Rectangle(SKIZZE15_W, SKIZZE15_H)
    extrude(amount=-SCHNITT_LINEAR_AUSTRAGEN6_DEPTH, mode=Mode.SUBTRACT)

    # Verrundung3
    verrundung3_edges = [part_16.edges().sort_by_distance(p)[0] for p in [
        (48, 0, 2.5),
        (48, -50, 2.5),
        (40, -50, 2.5),
        (40, 0, 2.5),
        (-48, -50, 2.5),
        (-48, 0, 2.5),
        (-40, 0, 2.5),
        (-40, -50, 2.5),
    ]]
    fillet(verrundung3_edges, radius=VERRUNDUNG3_R)

    # Skizze16 → Schnitt-Linear austragen7 (cut, two sides: drawn at the far end of the back side and taken through both)
    with BuildSketch(Plane.XY.offset(5).offset(-SCHNITT_LINEAR_AUSTRAGEN7_DEPTH_BACK)):
        with Locations((-4.200377562, -40.571388735)):
            Rectangle(SKIZZE16_W, SKIZZE16_H)
        with Locations((-4.200377562, 72.068559076)):
            Rectangle(SKIZZE16_W, SKIZZE16_H_2)
        with Locations((-0.479695711, 33.596057413)):
            Rectangle(SKIZZE16_W_2, SKIZZE16_H_3)
    extrude(amount=SCHNITT_LINEAR_AUSTRAGEN7_DEPTH + SCHNITT_LINEAR_AUSTRAGEN7_DEPTH_BACK, mode=Mode.SUBTRACT)


solid = part_16.part
